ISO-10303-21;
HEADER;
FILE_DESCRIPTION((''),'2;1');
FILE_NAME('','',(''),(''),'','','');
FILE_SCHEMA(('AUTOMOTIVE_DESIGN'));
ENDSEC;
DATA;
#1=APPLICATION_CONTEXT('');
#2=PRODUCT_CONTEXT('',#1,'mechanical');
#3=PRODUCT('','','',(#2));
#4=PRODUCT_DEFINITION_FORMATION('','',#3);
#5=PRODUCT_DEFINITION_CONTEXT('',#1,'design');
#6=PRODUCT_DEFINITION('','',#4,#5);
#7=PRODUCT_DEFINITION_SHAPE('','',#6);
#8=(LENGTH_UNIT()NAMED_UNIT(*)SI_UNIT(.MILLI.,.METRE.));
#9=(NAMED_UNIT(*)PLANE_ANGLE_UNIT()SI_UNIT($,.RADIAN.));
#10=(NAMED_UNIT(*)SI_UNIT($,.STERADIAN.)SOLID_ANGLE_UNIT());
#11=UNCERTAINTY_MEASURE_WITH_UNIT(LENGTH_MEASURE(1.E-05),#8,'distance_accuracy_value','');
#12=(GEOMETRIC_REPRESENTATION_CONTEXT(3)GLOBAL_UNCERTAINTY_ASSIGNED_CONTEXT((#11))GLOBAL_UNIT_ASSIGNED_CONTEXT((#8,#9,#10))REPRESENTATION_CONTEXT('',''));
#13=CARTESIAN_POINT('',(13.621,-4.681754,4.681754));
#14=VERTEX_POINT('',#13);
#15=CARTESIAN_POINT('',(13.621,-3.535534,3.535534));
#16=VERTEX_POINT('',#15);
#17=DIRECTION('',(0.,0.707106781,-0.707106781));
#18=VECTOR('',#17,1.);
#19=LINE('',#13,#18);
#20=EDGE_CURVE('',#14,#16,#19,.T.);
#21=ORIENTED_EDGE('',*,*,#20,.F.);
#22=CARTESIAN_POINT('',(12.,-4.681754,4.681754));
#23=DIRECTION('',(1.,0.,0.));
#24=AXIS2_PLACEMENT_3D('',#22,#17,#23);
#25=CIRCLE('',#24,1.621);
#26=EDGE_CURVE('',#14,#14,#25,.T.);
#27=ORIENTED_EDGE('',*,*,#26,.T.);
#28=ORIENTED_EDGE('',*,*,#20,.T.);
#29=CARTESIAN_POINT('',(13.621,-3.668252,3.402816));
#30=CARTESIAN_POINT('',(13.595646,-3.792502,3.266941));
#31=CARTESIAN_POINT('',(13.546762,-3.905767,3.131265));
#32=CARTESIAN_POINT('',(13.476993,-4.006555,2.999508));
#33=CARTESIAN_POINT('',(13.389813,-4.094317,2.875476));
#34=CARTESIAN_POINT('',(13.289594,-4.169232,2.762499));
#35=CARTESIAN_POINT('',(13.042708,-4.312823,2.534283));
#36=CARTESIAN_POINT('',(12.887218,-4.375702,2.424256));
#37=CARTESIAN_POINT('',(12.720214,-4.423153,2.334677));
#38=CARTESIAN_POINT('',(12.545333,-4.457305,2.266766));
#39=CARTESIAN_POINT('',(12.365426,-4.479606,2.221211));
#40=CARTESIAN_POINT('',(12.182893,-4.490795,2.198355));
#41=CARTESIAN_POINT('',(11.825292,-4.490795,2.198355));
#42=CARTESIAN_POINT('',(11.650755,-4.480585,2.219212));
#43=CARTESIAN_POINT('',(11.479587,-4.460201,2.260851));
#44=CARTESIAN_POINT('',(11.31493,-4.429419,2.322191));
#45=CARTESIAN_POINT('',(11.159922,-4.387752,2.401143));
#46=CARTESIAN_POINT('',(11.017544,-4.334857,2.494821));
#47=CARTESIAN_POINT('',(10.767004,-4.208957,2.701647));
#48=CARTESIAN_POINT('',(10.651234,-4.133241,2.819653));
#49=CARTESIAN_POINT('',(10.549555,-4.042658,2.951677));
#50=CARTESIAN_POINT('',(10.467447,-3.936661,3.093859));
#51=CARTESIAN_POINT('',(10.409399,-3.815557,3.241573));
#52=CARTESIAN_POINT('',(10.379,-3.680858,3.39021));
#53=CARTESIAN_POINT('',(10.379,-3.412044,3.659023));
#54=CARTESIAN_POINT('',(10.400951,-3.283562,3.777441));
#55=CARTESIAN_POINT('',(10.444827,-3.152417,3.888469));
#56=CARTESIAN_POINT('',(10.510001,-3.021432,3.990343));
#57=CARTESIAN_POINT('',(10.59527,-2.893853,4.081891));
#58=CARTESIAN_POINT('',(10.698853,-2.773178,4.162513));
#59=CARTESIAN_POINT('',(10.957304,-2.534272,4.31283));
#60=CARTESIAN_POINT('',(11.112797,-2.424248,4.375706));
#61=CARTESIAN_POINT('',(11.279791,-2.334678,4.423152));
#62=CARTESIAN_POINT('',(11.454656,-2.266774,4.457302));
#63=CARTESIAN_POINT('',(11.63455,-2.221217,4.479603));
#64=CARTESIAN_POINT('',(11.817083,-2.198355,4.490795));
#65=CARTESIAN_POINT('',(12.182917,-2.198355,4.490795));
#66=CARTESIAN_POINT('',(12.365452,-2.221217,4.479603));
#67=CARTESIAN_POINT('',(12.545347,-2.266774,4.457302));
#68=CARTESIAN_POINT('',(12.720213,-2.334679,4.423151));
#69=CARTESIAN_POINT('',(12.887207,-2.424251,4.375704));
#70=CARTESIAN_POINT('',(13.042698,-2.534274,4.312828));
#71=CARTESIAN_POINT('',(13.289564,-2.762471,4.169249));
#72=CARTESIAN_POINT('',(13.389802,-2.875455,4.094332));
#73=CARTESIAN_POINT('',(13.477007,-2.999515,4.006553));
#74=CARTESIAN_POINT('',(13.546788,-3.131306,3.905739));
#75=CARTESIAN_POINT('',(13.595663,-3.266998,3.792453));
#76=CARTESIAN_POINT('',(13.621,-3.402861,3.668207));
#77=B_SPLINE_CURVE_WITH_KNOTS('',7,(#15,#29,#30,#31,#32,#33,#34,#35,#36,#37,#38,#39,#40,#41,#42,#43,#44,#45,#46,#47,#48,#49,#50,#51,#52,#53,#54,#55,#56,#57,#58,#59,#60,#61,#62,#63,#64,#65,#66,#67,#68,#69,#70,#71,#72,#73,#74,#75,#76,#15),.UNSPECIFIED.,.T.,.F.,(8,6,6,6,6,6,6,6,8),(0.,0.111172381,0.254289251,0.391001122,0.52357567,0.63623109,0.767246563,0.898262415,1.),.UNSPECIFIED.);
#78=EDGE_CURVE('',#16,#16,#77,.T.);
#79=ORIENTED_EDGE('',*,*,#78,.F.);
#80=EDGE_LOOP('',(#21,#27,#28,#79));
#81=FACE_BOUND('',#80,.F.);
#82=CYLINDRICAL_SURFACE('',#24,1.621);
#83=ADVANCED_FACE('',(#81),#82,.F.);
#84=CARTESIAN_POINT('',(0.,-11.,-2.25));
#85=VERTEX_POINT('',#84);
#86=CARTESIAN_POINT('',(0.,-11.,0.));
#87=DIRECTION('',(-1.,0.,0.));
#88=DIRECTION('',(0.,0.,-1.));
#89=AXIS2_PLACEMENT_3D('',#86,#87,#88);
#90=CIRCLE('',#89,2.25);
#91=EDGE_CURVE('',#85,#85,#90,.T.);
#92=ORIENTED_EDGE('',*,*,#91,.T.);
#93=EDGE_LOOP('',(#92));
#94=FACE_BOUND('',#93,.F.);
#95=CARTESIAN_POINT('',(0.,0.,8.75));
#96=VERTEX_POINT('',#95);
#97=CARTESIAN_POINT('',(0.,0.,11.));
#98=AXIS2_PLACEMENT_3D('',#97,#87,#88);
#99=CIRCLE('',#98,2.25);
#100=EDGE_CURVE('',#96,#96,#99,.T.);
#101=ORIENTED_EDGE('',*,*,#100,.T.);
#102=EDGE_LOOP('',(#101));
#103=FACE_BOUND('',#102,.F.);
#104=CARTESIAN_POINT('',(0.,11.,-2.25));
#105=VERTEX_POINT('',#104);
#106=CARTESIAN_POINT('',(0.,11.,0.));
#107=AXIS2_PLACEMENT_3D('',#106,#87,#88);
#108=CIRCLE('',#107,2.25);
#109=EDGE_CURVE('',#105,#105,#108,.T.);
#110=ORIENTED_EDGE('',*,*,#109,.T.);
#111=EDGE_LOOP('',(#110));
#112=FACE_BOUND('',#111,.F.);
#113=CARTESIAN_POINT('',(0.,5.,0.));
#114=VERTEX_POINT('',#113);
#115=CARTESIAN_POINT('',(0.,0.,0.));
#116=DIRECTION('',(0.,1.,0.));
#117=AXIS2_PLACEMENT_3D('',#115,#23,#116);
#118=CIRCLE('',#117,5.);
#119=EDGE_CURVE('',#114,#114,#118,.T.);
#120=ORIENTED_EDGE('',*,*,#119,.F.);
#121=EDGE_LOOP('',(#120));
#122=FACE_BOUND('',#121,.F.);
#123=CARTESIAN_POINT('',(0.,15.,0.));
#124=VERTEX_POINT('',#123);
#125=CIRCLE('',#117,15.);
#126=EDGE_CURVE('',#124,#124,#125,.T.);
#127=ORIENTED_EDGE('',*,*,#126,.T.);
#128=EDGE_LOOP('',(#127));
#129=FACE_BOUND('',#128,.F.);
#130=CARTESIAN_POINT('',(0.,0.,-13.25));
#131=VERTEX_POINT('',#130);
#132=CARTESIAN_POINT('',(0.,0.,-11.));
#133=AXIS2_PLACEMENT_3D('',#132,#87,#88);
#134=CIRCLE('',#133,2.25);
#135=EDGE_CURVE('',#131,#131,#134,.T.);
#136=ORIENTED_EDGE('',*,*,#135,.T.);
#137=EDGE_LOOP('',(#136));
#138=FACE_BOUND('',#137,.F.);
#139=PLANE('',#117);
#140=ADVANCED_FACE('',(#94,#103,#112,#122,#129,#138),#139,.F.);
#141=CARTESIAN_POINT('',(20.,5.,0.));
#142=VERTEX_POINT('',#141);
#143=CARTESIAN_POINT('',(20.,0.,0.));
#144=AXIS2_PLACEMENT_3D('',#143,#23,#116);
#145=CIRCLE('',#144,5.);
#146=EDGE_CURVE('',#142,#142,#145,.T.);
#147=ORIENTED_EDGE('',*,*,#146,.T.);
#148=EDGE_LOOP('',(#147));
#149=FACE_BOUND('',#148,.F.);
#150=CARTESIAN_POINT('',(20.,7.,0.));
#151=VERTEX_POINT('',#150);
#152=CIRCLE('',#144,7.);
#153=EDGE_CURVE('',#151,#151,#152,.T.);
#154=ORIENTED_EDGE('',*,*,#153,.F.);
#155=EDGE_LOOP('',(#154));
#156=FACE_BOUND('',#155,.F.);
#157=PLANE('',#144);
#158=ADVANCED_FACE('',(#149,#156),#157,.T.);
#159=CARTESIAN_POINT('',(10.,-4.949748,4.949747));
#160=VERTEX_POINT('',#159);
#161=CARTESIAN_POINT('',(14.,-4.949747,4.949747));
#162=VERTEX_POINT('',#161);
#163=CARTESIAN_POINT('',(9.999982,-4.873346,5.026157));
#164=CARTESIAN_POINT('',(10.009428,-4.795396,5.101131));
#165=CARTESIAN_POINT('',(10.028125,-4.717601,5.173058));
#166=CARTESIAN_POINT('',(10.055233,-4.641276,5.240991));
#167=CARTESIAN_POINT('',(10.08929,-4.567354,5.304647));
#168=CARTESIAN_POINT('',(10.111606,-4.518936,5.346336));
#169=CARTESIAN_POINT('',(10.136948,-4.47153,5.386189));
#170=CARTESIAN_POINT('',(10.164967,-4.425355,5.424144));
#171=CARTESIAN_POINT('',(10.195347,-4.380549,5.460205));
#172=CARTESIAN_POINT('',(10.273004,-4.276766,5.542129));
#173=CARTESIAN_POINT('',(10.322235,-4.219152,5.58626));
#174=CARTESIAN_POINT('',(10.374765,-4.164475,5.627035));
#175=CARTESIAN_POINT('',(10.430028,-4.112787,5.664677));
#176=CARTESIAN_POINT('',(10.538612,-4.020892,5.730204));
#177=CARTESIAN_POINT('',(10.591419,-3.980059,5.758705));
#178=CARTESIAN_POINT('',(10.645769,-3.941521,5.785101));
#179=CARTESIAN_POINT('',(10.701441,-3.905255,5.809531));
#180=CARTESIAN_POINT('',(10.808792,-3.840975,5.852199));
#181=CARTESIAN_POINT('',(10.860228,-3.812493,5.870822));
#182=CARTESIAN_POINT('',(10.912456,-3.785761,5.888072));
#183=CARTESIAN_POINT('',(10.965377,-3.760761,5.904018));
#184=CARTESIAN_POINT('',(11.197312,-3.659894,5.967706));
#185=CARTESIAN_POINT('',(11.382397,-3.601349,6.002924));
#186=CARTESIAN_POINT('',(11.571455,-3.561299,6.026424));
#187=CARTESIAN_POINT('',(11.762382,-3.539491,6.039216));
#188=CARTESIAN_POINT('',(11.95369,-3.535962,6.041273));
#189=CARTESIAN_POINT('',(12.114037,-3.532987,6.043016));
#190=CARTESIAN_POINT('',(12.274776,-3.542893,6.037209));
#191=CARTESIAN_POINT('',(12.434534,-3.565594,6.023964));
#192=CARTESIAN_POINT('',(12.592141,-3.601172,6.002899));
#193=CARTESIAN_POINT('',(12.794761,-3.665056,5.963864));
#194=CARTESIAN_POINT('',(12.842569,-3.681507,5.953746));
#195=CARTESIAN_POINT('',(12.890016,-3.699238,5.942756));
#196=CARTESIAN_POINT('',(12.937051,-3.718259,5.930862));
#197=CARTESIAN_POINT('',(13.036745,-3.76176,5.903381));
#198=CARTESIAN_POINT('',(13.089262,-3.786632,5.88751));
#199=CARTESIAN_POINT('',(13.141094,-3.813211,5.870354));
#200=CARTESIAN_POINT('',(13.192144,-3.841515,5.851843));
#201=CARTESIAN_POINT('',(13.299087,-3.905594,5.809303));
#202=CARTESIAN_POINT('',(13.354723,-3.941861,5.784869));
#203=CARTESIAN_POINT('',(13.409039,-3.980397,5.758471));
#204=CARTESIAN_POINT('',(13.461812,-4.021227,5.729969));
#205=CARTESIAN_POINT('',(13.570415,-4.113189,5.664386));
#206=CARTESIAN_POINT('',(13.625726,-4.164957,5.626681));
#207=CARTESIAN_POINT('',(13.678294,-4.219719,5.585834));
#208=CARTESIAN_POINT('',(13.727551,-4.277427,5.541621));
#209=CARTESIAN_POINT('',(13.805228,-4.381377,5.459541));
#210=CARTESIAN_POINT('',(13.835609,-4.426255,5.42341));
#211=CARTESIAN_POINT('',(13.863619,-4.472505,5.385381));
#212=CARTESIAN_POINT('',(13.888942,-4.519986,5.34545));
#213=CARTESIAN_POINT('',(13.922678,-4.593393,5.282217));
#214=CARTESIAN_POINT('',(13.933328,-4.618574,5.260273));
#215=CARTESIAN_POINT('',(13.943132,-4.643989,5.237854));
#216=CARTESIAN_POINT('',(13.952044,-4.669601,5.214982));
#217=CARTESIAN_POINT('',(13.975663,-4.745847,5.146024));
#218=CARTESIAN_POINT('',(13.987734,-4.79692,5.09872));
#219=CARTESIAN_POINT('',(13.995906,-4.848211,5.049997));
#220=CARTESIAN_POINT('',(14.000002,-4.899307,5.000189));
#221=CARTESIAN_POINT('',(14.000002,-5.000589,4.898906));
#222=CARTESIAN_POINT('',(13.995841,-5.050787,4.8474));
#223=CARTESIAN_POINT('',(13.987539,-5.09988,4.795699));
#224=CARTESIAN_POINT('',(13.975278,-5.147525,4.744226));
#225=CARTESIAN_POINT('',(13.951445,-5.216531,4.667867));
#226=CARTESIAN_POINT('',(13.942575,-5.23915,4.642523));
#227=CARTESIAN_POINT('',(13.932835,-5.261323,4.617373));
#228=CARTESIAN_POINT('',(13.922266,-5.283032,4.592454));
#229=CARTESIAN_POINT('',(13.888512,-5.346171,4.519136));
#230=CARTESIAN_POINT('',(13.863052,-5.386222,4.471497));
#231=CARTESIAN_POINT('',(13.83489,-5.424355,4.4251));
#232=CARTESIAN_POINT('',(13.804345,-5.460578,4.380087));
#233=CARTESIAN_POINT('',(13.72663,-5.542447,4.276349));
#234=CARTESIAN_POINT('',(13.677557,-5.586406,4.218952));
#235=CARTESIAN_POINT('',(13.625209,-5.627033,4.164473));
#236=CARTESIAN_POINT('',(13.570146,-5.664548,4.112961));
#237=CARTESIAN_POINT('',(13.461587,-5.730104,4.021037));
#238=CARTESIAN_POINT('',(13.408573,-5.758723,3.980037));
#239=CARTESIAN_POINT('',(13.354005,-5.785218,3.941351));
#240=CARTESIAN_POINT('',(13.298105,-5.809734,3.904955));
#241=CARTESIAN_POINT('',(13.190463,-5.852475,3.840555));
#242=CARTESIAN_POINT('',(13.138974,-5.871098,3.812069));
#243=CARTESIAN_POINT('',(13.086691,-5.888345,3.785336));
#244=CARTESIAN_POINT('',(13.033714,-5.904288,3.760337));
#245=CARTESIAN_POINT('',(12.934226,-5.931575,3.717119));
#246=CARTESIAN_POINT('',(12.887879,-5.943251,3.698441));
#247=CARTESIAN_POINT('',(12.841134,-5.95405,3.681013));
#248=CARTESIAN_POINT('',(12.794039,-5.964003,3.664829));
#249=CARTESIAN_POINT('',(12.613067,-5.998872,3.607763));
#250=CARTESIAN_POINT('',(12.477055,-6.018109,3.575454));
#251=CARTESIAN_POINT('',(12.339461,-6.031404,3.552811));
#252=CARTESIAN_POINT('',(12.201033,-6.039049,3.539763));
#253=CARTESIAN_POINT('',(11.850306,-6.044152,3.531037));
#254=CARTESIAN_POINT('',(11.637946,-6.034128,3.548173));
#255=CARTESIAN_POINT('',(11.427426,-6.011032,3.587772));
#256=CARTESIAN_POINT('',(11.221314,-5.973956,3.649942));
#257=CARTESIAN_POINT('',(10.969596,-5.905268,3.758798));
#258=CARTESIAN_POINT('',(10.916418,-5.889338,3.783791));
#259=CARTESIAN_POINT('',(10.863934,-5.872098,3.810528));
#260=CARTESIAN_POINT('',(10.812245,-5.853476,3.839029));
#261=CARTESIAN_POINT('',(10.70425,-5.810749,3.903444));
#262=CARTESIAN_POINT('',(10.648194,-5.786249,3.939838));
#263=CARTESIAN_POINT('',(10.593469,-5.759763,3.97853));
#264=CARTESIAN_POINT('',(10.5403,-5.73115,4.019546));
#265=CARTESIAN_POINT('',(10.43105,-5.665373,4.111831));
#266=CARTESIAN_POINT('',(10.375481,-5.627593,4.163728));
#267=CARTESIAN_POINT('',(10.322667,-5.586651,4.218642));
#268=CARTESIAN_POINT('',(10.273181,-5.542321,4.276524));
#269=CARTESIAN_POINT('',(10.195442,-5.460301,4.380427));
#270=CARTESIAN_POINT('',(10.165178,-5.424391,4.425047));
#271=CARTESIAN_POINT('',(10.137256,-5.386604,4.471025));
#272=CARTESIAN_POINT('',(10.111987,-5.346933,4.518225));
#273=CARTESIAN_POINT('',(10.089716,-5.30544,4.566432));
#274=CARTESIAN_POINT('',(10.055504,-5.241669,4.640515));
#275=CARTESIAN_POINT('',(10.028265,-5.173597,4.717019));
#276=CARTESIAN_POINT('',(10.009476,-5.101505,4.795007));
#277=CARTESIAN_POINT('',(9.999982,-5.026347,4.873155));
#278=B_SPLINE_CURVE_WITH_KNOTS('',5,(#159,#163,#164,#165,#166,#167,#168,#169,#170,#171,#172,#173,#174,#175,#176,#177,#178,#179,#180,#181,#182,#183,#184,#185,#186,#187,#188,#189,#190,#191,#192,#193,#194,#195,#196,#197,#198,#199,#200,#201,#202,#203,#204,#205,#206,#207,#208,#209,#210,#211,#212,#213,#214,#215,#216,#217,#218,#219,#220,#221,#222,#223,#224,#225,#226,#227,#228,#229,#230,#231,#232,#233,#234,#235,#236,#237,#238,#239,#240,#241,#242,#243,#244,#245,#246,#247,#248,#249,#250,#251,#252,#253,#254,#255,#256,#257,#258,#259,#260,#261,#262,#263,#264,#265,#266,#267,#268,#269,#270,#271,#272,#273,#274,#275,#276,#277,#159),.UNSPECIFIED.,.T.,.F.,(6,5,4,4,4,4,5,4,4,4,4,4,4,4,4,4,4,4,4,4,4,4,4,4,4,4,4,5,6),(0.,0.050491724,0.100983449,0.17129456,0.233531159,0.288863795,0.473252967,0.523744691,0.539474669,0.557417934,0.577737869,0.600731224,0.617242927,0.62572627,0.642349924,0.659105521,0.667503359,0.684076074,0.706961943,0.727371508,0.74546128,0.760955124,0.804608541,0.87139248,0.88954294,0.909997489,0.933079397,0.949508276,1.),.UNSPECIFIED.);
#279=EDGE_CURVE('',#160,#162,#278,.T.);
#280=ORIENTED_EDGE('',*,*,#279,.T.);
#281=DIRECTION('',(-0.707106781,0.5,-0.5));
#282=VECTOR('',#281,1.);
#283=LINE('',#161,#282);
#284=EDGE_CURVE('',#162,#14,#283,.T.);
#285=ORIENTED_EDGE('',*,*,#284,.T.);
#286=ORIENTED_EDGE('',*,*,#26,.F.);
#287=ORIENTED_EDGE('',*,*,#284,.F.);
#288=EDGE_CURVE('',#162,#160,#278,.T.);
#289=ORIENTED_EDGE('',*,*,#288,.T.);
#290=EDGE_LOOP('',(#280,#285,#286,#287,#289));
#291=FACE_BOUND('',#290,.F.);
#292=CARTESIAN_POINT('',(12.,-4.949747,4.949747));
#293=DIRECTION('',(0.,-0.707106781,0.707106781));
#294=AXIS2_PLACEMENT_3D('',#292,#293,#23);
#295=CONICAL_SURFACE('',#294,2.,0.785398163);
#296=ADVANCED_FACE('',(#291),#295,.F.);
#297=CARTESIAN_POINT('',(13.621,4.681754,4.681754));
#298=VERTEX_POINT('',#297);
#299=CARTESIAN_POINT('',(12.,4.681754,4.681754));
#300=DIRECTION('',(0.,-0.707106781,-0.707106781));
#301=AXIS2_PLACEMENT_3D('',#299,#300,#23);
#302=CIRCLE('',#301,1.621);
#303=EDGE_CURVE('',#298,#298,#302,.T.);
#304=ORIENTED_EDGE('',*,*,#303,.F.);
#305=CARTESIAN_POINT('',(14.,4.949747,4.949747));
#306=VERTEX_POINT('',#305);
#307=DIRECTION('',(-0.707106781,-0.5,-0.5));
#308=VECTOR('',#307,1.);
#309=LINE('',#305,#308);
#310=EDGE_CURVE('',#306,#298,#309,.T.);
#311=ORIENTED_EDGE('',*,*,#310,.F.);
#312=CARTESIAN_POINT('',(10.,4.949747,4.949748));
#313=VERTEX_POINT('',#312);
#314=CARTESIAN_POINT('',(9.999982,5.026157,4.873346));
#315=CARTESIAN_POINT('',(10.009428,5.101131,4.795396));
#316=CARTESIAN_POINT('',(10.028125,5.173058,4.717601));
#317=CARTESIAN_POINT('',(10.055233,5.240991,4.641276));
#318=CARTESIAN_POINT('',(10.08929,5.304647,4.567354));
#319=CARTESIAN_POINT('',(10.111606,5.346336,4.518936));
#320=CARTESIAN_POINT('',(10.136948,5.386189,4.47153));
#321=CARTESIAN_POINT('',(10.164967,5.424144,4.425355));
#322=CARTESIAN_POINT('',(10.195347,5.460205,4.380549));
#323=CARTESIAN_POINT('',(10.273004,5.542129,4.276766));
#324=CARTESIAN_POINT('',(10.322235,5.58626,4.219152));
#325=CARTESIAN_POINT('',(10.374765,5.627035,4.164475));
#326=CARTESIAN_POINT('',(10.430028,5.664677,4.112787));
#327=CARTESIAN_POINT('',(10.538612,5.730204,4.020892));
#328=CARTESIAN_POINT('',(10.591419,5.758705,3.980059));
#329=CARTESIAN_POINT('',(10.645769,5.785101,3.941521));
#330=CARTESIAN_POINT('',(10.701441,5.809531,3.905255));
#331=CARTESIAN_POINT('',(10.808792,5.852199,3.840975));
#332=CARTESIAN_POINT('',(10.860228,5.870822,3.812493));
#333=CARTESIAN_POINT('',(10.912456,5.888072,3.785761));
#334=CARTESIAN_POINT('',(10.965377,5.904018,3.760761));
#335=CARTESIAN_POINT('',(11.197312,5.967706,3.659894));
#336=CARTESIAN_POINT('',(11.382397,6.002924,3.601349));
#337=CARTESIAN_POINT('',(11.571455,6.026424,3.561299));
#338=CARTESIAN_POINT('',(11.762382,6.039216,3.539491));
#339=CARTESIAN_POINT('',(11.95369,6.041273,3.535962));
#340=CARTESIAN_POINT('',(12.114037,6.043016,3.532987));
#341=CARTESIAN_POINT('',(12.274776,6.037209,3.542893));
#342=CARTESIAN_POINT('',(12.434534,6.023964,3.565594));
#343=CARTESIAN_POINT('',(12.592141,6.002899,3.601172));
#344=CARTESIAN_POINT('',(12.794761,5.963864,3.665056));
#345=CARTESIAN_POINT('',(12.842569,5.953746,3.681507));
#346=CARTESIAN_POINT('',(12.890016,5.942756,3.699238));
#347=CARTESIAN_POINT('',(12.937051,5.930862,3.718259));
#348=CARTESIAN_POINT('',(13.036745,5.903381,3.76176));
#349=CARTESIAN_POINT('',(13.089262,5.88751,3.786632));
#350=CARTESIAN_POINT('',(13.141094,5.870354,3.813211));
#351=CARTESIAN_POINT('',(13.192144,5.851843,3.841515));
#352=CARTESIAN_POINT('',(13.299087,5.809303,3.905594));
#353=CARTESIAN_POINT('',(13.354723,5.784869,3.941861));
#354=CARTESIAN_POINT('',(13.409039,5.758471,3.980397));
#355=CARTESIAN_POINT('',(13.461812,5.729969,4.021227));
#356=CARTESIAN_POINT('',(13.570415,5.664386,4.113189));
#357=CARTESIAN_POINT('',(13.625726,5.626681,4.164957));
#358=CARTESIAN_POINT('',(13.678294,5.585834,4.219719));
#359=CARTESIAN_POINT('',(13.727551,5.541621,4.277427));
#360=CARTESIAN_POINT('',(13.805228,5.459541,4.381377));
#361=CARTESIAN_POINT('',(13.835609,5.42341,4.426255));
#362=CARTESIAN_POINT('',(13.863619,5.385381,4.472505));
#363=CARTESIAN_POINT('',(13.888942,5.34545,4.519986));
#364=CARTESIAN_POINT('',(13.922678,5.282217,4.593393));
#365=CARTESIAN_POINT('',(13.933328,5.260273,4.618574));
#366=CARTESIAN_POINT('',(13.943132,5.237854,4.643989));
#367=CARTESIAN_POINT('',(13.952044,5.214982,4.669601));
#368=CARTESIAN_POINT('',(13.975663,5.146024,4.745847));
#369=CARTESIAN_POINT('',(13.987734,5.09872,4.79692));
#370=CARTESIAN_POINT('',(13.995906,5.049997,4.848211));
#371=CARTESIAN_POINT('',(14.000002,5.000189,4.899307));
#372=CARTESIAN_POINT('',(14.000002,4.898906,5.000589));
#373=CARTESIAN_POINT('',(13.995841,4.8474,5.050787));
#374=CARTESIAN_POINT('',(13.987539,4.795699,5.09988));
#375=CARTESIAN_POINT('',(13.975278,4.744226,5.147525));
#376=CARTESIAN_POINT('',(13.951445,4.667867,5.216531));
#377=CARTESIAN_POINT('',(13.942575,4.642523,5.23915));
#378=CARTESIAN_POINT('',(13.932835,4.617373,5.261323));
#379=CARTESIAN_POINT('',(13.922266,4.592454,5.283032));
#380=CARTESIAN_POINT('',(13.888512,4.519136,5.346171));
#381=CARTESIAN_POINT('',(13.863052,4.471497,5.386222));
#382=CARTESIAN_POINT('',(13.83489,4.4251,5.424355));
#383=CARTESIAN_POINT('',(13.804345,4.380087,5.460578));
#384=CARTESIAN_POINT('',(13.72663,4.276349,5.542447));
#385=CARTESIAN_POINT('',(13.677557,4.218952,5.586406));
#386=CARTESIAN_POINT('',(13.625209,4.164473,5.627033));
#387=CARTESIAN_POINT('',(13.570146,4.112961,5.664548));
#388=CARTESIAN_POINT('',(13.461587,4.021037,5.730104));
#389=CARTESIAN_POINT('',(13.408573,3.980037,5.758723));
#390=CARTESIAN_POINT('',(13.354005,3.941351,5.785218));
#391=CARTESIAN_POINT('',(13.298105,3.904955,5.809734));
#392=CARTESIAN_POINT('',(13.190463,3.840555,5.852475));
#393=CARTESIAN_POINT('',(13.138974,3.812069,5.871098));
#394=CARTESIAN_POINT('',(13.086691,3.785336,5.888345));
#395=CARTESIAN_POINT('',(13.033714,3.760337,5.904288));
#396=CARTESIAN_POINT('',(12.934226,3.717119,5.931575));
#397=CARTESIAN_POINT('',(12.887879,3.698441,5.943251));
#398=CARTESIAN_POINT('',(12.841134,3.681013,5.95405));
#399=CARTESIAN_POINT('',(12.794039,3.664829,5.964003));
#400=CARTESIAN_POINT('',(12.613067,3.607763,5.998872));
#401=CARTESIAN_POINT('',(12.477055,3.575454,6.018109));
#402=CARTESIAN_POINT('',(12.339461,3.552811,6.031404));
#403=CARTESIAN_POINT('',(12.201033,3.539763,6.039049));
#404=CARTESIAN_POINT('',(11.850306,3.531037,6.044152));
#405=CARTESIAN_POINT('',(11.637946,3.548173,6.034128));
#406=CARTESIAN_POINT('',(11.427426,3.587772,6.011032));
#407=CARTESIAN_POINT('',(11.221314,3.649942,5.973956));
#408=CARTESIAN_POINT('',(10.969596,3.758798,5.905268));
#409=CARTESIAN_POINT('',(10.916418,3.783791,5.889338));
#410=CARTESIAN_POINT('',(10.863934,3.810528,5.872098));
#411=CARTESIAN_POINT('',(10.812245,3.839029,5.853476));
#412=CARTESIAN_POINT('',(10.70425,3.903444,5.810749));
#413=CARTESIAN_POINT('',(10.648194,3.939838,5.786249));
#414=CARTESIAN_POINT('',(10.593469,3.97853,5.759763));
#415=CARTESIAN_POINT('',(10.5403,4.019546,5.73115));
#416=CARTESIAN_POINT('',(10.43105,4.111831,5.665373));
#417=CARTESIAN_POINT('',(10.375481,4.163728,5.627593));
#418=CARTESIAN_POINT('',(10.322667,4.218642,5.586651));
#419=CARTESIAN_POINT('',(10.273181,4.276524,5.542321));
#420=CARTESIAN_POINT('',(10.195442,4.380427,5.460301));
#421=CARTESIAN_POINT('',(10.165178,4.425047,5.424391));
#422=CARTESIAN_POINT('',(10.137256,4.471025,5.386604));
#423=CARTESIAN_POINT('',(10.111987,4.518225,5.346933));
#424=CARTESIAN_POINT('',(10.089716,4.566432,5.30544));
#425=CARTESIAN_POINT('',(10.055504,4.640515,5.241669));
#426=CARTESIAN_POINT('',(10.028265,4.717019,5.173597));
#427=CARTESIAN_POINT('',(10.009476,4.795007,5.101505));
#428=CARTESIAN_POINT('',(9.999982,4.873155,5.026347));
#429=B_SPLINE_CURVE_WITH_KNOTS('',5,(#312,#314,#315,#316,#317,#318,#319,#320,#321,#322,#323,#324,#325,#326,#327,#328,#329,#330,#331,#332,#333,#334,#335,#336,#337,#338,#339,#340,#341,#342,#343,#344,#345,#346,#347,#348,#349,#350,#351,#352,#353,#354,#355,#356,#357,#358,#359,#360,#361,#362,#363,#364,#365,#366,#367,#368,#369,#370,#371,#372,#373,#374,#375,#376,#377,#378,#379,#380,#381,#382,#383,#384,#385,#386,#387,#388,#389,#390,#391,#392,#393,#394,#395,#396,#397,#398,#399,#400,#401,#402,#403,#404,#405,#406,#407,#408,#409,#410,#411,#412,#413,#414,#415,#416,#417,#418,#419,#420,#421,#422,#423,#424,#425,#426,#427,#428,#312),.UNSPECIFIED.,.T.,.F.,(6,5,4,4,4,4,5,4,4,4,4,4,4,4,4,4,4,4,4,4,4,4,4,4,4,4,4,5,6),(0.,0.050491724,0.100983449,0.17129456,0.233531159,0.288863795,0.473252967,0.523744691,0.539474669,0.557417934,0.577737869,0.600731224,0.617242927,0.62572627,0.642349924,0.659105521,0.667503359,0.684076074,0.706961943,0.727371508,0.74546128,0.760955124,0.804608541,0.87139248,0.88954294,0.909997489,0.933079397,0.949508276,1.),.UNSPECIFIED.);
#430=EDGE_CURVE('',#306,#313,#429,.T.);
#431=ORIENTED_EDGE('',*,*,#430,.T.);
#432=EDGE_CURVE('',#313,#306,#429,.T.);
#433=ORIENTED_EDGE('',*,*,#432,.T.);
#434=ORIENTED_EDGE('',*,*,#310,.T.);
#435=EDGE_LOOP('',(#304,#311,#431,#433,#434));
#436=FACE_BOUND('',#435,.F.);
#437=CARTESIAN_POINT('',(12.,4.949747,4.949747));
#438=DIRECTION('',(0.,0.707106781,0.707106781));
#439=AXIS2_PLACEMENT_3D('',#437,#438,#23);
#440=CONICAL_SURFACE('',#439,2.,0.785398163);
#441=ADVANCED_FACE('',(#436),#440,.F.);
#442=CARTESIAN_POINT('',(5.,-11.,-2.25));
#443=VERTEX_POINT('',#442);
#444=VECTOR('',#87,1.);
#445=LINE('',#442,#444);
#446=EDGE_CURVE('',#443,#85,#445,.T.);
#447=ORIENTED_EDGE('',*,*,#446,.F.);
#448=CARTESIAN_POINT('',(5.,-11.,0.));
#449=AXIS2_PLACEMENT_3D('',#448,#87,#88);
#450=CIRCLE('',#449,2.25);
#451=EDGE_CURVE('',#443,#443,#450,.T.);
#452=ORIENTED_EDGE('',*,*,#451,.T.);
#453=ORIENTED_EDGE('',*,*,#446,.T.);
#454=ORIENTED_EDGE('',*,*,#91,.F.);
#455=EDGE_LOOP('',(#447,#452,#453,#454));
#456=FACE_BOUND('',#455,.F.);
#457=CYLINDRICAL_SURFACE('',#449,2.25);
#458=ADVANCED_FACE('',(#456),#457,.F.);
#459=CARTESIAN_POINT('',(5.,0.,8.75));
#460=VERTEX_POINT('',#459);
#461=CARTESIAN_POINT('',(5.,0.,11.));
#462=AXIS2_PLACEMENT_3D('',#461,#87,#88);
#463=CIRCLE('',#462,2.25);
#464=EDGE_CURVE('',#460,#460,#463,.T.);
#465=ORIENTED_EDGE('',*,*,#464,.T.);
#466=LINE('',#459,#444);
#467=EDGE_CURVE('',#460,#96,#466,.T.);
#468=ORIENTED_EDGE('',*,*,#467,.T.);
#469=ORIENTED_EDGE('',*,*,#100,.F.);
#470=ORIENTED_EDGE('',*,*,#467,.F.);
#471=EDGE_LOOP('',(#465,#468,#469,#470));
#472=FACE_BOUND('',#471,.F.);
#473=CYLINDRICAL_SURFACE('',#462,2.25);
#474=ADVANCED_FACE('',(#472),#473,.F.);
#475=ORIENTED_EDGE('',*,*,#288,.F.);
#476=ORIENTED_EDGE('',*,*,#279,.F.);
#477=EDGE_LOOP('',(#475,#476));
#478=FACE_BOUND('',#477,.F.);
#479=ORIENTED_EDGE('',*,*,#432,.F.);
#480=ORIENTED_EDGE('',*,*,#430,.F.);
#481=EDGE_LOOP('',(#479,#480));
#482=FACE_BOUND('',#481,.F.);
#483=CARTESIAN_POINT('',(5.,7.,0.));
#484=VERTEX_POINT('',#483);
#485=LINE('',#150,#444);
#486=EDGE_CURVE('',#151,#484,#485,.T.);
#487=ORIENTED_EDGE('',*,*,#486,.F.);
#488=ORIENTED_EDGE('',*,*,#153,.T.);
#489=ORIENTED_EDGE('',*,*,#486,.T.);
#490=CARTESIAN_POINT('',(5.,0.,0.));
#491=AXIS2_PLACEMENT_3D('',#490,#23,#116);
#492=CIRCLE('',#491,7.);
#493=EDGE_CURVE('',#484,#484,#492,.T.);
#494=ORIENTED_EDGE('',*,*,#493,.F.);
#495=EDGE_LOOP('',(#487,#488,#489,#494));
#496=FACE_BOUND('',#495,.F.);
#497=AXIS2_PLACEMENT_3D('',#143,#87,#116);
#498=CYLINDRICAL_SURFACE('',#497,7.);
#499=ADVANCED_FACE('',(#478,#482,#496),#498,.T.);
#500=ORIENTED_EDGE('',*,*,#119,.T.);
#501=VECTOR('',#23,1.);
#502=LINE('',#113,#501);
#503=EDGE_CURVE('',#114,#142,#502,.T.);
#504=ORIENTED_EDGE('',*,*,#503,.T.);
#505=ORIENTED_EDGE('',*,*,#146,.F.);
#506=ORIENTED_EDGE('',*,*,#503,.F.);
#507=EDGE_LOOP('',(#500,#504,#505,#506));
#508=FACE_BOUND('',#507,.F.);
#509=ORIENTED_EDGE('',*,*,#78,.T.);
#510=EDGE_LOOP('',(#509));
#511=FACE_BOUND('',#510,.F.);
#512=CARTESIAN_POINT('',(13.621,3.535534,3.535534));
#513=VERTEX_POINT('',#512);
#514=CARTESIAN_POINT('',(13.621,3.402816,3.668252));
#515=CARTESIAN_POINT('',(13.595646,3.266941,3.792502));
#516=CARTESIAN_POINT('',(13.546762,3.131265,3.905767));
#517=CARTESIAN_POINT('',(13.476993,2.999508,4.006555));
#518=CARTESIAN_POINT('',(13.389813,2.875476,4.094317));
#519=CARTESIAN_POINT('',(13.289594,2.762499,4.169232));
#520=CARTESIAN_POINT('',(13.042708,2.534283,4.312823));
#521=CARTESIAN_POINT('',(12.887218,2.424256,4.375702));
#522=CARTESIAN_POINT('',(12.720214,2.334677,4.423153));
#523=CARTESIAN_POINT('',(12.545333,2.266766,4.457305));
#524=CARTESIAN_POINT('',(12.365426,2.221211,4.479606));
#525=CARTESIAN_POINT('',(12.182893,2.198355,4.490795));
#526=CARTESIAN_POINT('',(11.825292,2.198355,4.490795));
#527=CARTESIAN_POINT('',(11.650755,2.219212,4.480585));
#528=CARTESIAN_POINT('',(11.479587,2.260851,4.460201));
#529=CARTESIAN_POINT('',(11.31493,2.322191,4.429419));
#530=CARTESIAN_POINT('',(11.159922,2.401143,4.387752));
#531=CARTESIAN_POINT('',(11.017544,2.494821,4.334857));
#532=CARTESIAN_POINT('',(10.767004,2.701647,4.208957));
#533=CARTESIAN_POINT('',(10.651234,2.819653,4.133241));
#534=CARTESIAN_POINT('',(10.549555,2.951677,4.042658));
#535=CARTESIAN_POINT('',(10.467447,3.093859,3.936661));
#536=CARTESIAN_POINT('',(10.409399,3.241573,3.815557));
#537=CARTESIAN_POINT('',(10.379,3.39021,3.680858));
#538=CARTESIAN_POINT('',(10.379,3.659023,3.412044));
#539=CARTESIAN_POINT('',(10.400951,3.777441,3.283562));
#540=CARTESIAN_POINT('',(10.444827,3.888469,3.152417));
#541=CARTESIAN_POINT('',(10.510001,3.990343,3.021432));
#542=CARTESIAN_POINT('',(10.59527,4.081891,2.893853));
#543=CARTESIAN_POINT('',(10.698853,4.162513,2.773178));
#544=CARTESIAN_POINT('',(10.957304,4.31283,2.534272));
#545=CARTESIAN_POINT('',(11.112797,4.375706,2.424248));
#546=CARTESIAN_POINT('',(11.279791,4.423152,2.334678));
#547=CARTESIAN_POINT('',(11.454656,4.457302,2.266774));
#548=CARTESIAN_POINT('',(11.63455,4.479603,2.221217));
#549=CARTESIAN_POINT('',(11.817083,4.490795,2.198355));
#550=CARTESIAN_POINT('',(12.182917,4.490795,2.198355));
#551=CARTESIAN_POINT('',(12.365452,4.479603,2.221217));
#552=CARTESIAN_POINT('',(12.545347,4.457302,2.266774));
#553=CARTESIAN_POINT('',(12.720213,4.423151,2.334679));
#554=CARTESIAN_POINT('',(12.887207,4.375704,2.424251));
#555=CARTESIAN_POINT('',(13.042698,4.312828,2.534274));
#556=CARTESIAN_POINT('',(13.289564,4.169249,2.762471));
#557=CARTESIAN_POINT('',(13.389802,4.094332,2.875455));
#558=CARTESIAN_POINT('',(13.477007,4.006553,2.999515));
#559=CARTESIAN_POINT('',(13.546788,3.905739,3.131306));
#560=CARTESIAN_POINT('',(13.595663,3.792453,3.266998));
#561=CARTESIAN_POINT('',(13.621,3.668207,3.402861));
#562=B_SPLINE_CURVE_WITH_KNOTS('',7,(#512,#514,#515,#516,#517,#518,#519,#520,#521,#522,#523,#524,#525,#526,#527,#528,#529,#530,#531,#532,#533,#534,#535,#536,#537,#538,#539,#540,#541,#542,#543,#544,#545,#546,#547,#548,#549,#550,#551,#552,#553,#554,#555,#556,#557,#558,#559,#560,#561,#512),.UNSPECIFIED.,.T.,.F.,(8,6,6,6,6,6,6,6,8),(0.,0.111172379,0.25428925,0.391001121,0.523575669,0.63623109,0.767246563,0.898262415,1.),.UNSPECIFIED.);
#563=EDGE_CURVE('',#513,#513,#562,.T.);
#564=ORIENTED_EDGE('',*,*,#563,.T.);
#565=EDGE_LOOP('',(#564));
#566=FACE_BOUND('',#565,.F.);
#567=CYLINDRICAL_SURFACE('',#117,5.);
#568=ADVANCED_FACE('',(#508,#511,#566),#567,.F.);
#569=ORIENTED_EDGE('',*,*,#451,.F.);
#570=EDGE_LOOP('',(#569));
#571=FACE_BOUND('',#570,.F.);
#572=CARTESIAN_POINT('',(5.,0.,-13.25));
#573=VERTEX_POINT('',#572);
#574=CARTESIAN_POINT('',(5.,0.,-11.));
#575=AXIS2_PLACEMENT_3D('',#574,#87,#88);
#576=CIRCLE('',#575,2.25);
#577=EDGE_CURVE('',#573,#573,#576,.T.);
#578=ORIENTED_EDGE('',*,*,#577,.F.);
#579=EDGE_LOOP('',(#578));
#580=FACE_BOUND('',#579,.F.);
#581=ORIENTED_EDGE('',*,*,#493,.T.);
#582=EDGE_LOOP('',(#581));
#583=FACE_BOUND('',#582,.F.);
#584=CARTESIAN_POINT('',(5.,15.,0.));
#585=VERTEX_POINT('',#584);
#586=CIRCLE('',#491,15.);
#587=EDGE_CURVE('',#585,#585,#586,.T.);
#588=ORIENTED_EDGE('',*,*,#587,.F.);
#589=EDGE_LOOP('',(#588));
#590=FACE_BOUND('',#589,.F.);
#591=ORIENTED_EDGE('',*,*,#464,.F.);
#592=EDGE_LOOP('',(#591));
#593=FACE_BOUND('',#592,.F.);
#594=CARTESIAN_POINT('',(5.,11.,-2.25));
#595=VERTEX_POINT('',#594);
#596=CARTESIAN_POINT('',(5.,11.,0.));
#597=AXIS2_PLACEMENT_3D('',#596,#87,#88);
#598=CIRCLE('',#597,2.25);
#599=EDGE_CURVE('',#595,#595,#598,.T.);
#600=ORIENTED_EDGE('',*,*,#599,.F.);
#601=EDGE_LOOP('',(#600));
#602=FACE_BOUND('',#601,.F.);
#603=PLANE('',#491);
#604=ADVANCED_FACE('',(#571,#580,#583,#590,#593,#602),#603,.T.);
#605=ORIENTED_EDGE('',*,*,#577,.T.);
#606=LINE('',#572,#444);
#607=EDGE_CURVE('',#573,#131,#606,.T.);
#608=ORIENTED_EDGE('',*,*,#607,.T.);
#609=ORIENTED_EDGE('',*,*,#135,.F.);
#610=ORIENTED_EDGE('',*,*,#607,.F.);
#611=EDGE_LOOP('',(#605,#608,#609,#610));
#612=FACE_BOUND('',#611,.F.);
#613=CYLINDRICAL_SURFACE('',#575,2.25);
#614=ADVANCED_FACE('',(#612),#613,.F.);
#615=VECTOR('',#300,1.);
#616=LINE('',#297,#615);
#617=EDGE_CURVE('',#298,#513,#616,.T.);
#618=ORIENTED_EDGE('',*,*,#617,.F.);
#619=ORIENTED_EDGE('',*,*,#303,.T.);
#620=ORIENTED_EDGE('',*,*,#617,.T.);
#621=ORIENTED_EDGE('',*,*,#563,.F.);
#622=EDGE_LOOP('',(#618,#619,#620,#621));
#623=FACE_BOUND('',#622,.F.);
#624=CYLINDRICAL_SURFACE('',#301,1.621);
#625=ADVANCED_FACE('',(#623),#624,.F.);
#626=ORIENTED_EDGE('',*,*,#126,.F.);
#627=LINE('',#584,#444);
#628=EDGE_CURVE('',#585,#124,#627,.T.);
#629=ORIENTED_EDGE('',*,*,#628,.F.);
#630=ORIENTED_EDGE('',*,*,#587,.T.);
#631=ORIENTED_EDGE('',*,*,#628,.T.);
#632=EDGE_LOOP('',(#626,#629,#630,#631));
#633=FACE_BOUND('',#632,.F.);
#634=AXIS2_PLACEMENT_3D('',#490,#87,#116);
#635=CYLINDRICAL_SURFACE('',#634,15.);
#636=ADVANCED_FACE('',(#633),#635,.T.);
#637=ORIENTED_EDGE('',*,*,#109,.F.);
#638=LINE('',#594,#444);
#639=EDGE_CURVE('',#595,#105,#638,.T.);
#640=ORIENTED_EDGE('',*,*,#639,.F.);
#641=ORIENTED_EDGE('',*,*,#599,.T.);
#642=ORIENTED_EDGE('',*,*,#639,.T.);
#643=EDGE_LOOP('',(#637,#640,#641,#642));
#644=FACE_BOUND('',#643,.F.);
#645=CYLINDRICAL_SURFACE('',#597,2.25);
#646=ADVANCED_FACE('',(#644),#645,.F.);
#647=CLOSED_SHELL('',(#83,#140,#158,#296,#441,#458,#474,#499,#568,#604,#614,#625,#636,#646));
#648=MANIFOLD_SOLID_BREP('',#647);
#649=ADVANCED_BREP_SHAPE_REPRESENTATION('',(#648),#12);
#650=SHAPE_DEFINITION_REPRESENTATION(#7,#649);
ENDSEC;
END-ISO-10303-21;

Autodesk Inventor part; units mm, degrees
sketch "Sketch_1" plane through (0, 0, 0) normal (0, 0, 1) x (1, 0, 0)
  line L0 (20, 0) -> (0, 0)
  line L1 (0, 15) -> (0, 5)
  line L2 (0, 5) -> (20, 5)
  line L3 (20, 5) -> (20, 7)
  line L4 (20, 7) -> (5, 7)
  line L5 (5, 7) -> (5, 15)
  line L6 (5, 15) -> (0, 15)
revolve "Revolution1" add sketch "Sketch_1" angle 360 about axis through (20, 0, 0) along (1, 0, 0)
sketch "Sketch_3" plane through (0, 0, 0) normal (0, -0.7071, 0.7071) x (1, 0, 0)
  line L0 (12, 4.5) -> (12, 7)
  line L1 (12, 7) -> (14, 7)
  line L2 (14, 7) -> (13.621, 6.621)
  line L3 (13.621, 6.621) -> (13.621, 4.5)
  line L4 (13.621, 4.5) -> (12, 4.5)
  line L5 (12, 4.5) -> (12, 7)
revolve "Revolution2" cut sketch "Sketch_3" angle 360 about axis through (12, 3.182, 3.182) along (0, -0.7071, -0.7071)
thread "Thread1" size "M4x0.7" class "6H" standard "ISO Metric profile" length 2.121
sketch "Sketch3" plane through (5, 0, 0) normal (1, 0, 0) x (0, 0, -1)
  point P0 (0, 11)
hole "Hole1" at (5, 11, 0) direction (-1, 0, 0) diameter 4.5 depth 5
sketch "Sketch4" plane through (5, 0, 0) normal (1, 0, 0) x (0, 0, -1)
  point P0 (0, -11)
hole "Hole2" at (5, -11, 0) direction (-1, 0, 0) diameter 4.5 depth 5
sketch "Sketch5" plane through (5, 0, 0) normal (1, 0, 0) x (0, 0, -1)
  point P0 (-11, 0)
hole "Hole3" at (5, 0, 11) direction (-1, 0, 0) diameter 4.5 depth 5
sketch "Sketch6" plane through (5, 0, 0) normal (1, 0, 0) x (0, 0, -1)
  point P0 (11, 0)
hole "Hole4" at (5, 0, -11) direction (-1, 0, 0) diameter 4.5 depth 5
sketch "Sketch_2" plane through (0, 0, 0) normal (0, -0.7071, -0.7071) x (1, 0, 0)
  line L0 (12, 4.5) -> (12, 7)
  line L1 (12, 7) -> (14, 7)
  line L2 (14, 7) -> (13.621, 6.621)
  line L3 (13.621, 6.621) -> (13.621, 4.5)
  line L4 (13.621, 4.5) -> (12, 4.5)
  line L5 (12, 4.5) -> (12, 7)
revolve "Revolution3" cut sketch "Sketch_2" angle 360 about axis through (12, -3.182, 3.182) along (0, 0.7071, -0.7071)
thread "Thread2" size "M4x0.7" class "6H" standard "ISO Metric profile" length 2.121
ref_plane "to_screw1_XY" through (12, 3.5355, 3.5355) normal (0, 0.7071, 0.7071) x (1, 0, 0)
ref_plane "to_screw1_YZ" through (12, 3.5355, 3.5355) normal (1, 0, 0) x (0, 0.7071, -0.7071)
ref_plane "to_screw1_ZX" through (12, 3.5355, 3.5355) normal (0, 0.7071, -0.7071) x (0, 0.7071, 0.7071)
ref_plane "to_screw2_XY" through (12, -3.5355, 3.5355) normal (0, -0.7071, 0.7071) x (1, 0, 0)
ref_plane "to_screw2_YZ" through (12, -3.5355, 3.5355) normal (1, 0, 0) x (0, 0.7071, 0.7071)
ref_plane "to_screw2_ZX" through (12, -3.5355, 3.5355) normal (0, 0.7071, 0.7071) x (0, -0.7071, 0.7071)
properties part number "STHRB10M-MB_b" material "ステンレス鋼"
